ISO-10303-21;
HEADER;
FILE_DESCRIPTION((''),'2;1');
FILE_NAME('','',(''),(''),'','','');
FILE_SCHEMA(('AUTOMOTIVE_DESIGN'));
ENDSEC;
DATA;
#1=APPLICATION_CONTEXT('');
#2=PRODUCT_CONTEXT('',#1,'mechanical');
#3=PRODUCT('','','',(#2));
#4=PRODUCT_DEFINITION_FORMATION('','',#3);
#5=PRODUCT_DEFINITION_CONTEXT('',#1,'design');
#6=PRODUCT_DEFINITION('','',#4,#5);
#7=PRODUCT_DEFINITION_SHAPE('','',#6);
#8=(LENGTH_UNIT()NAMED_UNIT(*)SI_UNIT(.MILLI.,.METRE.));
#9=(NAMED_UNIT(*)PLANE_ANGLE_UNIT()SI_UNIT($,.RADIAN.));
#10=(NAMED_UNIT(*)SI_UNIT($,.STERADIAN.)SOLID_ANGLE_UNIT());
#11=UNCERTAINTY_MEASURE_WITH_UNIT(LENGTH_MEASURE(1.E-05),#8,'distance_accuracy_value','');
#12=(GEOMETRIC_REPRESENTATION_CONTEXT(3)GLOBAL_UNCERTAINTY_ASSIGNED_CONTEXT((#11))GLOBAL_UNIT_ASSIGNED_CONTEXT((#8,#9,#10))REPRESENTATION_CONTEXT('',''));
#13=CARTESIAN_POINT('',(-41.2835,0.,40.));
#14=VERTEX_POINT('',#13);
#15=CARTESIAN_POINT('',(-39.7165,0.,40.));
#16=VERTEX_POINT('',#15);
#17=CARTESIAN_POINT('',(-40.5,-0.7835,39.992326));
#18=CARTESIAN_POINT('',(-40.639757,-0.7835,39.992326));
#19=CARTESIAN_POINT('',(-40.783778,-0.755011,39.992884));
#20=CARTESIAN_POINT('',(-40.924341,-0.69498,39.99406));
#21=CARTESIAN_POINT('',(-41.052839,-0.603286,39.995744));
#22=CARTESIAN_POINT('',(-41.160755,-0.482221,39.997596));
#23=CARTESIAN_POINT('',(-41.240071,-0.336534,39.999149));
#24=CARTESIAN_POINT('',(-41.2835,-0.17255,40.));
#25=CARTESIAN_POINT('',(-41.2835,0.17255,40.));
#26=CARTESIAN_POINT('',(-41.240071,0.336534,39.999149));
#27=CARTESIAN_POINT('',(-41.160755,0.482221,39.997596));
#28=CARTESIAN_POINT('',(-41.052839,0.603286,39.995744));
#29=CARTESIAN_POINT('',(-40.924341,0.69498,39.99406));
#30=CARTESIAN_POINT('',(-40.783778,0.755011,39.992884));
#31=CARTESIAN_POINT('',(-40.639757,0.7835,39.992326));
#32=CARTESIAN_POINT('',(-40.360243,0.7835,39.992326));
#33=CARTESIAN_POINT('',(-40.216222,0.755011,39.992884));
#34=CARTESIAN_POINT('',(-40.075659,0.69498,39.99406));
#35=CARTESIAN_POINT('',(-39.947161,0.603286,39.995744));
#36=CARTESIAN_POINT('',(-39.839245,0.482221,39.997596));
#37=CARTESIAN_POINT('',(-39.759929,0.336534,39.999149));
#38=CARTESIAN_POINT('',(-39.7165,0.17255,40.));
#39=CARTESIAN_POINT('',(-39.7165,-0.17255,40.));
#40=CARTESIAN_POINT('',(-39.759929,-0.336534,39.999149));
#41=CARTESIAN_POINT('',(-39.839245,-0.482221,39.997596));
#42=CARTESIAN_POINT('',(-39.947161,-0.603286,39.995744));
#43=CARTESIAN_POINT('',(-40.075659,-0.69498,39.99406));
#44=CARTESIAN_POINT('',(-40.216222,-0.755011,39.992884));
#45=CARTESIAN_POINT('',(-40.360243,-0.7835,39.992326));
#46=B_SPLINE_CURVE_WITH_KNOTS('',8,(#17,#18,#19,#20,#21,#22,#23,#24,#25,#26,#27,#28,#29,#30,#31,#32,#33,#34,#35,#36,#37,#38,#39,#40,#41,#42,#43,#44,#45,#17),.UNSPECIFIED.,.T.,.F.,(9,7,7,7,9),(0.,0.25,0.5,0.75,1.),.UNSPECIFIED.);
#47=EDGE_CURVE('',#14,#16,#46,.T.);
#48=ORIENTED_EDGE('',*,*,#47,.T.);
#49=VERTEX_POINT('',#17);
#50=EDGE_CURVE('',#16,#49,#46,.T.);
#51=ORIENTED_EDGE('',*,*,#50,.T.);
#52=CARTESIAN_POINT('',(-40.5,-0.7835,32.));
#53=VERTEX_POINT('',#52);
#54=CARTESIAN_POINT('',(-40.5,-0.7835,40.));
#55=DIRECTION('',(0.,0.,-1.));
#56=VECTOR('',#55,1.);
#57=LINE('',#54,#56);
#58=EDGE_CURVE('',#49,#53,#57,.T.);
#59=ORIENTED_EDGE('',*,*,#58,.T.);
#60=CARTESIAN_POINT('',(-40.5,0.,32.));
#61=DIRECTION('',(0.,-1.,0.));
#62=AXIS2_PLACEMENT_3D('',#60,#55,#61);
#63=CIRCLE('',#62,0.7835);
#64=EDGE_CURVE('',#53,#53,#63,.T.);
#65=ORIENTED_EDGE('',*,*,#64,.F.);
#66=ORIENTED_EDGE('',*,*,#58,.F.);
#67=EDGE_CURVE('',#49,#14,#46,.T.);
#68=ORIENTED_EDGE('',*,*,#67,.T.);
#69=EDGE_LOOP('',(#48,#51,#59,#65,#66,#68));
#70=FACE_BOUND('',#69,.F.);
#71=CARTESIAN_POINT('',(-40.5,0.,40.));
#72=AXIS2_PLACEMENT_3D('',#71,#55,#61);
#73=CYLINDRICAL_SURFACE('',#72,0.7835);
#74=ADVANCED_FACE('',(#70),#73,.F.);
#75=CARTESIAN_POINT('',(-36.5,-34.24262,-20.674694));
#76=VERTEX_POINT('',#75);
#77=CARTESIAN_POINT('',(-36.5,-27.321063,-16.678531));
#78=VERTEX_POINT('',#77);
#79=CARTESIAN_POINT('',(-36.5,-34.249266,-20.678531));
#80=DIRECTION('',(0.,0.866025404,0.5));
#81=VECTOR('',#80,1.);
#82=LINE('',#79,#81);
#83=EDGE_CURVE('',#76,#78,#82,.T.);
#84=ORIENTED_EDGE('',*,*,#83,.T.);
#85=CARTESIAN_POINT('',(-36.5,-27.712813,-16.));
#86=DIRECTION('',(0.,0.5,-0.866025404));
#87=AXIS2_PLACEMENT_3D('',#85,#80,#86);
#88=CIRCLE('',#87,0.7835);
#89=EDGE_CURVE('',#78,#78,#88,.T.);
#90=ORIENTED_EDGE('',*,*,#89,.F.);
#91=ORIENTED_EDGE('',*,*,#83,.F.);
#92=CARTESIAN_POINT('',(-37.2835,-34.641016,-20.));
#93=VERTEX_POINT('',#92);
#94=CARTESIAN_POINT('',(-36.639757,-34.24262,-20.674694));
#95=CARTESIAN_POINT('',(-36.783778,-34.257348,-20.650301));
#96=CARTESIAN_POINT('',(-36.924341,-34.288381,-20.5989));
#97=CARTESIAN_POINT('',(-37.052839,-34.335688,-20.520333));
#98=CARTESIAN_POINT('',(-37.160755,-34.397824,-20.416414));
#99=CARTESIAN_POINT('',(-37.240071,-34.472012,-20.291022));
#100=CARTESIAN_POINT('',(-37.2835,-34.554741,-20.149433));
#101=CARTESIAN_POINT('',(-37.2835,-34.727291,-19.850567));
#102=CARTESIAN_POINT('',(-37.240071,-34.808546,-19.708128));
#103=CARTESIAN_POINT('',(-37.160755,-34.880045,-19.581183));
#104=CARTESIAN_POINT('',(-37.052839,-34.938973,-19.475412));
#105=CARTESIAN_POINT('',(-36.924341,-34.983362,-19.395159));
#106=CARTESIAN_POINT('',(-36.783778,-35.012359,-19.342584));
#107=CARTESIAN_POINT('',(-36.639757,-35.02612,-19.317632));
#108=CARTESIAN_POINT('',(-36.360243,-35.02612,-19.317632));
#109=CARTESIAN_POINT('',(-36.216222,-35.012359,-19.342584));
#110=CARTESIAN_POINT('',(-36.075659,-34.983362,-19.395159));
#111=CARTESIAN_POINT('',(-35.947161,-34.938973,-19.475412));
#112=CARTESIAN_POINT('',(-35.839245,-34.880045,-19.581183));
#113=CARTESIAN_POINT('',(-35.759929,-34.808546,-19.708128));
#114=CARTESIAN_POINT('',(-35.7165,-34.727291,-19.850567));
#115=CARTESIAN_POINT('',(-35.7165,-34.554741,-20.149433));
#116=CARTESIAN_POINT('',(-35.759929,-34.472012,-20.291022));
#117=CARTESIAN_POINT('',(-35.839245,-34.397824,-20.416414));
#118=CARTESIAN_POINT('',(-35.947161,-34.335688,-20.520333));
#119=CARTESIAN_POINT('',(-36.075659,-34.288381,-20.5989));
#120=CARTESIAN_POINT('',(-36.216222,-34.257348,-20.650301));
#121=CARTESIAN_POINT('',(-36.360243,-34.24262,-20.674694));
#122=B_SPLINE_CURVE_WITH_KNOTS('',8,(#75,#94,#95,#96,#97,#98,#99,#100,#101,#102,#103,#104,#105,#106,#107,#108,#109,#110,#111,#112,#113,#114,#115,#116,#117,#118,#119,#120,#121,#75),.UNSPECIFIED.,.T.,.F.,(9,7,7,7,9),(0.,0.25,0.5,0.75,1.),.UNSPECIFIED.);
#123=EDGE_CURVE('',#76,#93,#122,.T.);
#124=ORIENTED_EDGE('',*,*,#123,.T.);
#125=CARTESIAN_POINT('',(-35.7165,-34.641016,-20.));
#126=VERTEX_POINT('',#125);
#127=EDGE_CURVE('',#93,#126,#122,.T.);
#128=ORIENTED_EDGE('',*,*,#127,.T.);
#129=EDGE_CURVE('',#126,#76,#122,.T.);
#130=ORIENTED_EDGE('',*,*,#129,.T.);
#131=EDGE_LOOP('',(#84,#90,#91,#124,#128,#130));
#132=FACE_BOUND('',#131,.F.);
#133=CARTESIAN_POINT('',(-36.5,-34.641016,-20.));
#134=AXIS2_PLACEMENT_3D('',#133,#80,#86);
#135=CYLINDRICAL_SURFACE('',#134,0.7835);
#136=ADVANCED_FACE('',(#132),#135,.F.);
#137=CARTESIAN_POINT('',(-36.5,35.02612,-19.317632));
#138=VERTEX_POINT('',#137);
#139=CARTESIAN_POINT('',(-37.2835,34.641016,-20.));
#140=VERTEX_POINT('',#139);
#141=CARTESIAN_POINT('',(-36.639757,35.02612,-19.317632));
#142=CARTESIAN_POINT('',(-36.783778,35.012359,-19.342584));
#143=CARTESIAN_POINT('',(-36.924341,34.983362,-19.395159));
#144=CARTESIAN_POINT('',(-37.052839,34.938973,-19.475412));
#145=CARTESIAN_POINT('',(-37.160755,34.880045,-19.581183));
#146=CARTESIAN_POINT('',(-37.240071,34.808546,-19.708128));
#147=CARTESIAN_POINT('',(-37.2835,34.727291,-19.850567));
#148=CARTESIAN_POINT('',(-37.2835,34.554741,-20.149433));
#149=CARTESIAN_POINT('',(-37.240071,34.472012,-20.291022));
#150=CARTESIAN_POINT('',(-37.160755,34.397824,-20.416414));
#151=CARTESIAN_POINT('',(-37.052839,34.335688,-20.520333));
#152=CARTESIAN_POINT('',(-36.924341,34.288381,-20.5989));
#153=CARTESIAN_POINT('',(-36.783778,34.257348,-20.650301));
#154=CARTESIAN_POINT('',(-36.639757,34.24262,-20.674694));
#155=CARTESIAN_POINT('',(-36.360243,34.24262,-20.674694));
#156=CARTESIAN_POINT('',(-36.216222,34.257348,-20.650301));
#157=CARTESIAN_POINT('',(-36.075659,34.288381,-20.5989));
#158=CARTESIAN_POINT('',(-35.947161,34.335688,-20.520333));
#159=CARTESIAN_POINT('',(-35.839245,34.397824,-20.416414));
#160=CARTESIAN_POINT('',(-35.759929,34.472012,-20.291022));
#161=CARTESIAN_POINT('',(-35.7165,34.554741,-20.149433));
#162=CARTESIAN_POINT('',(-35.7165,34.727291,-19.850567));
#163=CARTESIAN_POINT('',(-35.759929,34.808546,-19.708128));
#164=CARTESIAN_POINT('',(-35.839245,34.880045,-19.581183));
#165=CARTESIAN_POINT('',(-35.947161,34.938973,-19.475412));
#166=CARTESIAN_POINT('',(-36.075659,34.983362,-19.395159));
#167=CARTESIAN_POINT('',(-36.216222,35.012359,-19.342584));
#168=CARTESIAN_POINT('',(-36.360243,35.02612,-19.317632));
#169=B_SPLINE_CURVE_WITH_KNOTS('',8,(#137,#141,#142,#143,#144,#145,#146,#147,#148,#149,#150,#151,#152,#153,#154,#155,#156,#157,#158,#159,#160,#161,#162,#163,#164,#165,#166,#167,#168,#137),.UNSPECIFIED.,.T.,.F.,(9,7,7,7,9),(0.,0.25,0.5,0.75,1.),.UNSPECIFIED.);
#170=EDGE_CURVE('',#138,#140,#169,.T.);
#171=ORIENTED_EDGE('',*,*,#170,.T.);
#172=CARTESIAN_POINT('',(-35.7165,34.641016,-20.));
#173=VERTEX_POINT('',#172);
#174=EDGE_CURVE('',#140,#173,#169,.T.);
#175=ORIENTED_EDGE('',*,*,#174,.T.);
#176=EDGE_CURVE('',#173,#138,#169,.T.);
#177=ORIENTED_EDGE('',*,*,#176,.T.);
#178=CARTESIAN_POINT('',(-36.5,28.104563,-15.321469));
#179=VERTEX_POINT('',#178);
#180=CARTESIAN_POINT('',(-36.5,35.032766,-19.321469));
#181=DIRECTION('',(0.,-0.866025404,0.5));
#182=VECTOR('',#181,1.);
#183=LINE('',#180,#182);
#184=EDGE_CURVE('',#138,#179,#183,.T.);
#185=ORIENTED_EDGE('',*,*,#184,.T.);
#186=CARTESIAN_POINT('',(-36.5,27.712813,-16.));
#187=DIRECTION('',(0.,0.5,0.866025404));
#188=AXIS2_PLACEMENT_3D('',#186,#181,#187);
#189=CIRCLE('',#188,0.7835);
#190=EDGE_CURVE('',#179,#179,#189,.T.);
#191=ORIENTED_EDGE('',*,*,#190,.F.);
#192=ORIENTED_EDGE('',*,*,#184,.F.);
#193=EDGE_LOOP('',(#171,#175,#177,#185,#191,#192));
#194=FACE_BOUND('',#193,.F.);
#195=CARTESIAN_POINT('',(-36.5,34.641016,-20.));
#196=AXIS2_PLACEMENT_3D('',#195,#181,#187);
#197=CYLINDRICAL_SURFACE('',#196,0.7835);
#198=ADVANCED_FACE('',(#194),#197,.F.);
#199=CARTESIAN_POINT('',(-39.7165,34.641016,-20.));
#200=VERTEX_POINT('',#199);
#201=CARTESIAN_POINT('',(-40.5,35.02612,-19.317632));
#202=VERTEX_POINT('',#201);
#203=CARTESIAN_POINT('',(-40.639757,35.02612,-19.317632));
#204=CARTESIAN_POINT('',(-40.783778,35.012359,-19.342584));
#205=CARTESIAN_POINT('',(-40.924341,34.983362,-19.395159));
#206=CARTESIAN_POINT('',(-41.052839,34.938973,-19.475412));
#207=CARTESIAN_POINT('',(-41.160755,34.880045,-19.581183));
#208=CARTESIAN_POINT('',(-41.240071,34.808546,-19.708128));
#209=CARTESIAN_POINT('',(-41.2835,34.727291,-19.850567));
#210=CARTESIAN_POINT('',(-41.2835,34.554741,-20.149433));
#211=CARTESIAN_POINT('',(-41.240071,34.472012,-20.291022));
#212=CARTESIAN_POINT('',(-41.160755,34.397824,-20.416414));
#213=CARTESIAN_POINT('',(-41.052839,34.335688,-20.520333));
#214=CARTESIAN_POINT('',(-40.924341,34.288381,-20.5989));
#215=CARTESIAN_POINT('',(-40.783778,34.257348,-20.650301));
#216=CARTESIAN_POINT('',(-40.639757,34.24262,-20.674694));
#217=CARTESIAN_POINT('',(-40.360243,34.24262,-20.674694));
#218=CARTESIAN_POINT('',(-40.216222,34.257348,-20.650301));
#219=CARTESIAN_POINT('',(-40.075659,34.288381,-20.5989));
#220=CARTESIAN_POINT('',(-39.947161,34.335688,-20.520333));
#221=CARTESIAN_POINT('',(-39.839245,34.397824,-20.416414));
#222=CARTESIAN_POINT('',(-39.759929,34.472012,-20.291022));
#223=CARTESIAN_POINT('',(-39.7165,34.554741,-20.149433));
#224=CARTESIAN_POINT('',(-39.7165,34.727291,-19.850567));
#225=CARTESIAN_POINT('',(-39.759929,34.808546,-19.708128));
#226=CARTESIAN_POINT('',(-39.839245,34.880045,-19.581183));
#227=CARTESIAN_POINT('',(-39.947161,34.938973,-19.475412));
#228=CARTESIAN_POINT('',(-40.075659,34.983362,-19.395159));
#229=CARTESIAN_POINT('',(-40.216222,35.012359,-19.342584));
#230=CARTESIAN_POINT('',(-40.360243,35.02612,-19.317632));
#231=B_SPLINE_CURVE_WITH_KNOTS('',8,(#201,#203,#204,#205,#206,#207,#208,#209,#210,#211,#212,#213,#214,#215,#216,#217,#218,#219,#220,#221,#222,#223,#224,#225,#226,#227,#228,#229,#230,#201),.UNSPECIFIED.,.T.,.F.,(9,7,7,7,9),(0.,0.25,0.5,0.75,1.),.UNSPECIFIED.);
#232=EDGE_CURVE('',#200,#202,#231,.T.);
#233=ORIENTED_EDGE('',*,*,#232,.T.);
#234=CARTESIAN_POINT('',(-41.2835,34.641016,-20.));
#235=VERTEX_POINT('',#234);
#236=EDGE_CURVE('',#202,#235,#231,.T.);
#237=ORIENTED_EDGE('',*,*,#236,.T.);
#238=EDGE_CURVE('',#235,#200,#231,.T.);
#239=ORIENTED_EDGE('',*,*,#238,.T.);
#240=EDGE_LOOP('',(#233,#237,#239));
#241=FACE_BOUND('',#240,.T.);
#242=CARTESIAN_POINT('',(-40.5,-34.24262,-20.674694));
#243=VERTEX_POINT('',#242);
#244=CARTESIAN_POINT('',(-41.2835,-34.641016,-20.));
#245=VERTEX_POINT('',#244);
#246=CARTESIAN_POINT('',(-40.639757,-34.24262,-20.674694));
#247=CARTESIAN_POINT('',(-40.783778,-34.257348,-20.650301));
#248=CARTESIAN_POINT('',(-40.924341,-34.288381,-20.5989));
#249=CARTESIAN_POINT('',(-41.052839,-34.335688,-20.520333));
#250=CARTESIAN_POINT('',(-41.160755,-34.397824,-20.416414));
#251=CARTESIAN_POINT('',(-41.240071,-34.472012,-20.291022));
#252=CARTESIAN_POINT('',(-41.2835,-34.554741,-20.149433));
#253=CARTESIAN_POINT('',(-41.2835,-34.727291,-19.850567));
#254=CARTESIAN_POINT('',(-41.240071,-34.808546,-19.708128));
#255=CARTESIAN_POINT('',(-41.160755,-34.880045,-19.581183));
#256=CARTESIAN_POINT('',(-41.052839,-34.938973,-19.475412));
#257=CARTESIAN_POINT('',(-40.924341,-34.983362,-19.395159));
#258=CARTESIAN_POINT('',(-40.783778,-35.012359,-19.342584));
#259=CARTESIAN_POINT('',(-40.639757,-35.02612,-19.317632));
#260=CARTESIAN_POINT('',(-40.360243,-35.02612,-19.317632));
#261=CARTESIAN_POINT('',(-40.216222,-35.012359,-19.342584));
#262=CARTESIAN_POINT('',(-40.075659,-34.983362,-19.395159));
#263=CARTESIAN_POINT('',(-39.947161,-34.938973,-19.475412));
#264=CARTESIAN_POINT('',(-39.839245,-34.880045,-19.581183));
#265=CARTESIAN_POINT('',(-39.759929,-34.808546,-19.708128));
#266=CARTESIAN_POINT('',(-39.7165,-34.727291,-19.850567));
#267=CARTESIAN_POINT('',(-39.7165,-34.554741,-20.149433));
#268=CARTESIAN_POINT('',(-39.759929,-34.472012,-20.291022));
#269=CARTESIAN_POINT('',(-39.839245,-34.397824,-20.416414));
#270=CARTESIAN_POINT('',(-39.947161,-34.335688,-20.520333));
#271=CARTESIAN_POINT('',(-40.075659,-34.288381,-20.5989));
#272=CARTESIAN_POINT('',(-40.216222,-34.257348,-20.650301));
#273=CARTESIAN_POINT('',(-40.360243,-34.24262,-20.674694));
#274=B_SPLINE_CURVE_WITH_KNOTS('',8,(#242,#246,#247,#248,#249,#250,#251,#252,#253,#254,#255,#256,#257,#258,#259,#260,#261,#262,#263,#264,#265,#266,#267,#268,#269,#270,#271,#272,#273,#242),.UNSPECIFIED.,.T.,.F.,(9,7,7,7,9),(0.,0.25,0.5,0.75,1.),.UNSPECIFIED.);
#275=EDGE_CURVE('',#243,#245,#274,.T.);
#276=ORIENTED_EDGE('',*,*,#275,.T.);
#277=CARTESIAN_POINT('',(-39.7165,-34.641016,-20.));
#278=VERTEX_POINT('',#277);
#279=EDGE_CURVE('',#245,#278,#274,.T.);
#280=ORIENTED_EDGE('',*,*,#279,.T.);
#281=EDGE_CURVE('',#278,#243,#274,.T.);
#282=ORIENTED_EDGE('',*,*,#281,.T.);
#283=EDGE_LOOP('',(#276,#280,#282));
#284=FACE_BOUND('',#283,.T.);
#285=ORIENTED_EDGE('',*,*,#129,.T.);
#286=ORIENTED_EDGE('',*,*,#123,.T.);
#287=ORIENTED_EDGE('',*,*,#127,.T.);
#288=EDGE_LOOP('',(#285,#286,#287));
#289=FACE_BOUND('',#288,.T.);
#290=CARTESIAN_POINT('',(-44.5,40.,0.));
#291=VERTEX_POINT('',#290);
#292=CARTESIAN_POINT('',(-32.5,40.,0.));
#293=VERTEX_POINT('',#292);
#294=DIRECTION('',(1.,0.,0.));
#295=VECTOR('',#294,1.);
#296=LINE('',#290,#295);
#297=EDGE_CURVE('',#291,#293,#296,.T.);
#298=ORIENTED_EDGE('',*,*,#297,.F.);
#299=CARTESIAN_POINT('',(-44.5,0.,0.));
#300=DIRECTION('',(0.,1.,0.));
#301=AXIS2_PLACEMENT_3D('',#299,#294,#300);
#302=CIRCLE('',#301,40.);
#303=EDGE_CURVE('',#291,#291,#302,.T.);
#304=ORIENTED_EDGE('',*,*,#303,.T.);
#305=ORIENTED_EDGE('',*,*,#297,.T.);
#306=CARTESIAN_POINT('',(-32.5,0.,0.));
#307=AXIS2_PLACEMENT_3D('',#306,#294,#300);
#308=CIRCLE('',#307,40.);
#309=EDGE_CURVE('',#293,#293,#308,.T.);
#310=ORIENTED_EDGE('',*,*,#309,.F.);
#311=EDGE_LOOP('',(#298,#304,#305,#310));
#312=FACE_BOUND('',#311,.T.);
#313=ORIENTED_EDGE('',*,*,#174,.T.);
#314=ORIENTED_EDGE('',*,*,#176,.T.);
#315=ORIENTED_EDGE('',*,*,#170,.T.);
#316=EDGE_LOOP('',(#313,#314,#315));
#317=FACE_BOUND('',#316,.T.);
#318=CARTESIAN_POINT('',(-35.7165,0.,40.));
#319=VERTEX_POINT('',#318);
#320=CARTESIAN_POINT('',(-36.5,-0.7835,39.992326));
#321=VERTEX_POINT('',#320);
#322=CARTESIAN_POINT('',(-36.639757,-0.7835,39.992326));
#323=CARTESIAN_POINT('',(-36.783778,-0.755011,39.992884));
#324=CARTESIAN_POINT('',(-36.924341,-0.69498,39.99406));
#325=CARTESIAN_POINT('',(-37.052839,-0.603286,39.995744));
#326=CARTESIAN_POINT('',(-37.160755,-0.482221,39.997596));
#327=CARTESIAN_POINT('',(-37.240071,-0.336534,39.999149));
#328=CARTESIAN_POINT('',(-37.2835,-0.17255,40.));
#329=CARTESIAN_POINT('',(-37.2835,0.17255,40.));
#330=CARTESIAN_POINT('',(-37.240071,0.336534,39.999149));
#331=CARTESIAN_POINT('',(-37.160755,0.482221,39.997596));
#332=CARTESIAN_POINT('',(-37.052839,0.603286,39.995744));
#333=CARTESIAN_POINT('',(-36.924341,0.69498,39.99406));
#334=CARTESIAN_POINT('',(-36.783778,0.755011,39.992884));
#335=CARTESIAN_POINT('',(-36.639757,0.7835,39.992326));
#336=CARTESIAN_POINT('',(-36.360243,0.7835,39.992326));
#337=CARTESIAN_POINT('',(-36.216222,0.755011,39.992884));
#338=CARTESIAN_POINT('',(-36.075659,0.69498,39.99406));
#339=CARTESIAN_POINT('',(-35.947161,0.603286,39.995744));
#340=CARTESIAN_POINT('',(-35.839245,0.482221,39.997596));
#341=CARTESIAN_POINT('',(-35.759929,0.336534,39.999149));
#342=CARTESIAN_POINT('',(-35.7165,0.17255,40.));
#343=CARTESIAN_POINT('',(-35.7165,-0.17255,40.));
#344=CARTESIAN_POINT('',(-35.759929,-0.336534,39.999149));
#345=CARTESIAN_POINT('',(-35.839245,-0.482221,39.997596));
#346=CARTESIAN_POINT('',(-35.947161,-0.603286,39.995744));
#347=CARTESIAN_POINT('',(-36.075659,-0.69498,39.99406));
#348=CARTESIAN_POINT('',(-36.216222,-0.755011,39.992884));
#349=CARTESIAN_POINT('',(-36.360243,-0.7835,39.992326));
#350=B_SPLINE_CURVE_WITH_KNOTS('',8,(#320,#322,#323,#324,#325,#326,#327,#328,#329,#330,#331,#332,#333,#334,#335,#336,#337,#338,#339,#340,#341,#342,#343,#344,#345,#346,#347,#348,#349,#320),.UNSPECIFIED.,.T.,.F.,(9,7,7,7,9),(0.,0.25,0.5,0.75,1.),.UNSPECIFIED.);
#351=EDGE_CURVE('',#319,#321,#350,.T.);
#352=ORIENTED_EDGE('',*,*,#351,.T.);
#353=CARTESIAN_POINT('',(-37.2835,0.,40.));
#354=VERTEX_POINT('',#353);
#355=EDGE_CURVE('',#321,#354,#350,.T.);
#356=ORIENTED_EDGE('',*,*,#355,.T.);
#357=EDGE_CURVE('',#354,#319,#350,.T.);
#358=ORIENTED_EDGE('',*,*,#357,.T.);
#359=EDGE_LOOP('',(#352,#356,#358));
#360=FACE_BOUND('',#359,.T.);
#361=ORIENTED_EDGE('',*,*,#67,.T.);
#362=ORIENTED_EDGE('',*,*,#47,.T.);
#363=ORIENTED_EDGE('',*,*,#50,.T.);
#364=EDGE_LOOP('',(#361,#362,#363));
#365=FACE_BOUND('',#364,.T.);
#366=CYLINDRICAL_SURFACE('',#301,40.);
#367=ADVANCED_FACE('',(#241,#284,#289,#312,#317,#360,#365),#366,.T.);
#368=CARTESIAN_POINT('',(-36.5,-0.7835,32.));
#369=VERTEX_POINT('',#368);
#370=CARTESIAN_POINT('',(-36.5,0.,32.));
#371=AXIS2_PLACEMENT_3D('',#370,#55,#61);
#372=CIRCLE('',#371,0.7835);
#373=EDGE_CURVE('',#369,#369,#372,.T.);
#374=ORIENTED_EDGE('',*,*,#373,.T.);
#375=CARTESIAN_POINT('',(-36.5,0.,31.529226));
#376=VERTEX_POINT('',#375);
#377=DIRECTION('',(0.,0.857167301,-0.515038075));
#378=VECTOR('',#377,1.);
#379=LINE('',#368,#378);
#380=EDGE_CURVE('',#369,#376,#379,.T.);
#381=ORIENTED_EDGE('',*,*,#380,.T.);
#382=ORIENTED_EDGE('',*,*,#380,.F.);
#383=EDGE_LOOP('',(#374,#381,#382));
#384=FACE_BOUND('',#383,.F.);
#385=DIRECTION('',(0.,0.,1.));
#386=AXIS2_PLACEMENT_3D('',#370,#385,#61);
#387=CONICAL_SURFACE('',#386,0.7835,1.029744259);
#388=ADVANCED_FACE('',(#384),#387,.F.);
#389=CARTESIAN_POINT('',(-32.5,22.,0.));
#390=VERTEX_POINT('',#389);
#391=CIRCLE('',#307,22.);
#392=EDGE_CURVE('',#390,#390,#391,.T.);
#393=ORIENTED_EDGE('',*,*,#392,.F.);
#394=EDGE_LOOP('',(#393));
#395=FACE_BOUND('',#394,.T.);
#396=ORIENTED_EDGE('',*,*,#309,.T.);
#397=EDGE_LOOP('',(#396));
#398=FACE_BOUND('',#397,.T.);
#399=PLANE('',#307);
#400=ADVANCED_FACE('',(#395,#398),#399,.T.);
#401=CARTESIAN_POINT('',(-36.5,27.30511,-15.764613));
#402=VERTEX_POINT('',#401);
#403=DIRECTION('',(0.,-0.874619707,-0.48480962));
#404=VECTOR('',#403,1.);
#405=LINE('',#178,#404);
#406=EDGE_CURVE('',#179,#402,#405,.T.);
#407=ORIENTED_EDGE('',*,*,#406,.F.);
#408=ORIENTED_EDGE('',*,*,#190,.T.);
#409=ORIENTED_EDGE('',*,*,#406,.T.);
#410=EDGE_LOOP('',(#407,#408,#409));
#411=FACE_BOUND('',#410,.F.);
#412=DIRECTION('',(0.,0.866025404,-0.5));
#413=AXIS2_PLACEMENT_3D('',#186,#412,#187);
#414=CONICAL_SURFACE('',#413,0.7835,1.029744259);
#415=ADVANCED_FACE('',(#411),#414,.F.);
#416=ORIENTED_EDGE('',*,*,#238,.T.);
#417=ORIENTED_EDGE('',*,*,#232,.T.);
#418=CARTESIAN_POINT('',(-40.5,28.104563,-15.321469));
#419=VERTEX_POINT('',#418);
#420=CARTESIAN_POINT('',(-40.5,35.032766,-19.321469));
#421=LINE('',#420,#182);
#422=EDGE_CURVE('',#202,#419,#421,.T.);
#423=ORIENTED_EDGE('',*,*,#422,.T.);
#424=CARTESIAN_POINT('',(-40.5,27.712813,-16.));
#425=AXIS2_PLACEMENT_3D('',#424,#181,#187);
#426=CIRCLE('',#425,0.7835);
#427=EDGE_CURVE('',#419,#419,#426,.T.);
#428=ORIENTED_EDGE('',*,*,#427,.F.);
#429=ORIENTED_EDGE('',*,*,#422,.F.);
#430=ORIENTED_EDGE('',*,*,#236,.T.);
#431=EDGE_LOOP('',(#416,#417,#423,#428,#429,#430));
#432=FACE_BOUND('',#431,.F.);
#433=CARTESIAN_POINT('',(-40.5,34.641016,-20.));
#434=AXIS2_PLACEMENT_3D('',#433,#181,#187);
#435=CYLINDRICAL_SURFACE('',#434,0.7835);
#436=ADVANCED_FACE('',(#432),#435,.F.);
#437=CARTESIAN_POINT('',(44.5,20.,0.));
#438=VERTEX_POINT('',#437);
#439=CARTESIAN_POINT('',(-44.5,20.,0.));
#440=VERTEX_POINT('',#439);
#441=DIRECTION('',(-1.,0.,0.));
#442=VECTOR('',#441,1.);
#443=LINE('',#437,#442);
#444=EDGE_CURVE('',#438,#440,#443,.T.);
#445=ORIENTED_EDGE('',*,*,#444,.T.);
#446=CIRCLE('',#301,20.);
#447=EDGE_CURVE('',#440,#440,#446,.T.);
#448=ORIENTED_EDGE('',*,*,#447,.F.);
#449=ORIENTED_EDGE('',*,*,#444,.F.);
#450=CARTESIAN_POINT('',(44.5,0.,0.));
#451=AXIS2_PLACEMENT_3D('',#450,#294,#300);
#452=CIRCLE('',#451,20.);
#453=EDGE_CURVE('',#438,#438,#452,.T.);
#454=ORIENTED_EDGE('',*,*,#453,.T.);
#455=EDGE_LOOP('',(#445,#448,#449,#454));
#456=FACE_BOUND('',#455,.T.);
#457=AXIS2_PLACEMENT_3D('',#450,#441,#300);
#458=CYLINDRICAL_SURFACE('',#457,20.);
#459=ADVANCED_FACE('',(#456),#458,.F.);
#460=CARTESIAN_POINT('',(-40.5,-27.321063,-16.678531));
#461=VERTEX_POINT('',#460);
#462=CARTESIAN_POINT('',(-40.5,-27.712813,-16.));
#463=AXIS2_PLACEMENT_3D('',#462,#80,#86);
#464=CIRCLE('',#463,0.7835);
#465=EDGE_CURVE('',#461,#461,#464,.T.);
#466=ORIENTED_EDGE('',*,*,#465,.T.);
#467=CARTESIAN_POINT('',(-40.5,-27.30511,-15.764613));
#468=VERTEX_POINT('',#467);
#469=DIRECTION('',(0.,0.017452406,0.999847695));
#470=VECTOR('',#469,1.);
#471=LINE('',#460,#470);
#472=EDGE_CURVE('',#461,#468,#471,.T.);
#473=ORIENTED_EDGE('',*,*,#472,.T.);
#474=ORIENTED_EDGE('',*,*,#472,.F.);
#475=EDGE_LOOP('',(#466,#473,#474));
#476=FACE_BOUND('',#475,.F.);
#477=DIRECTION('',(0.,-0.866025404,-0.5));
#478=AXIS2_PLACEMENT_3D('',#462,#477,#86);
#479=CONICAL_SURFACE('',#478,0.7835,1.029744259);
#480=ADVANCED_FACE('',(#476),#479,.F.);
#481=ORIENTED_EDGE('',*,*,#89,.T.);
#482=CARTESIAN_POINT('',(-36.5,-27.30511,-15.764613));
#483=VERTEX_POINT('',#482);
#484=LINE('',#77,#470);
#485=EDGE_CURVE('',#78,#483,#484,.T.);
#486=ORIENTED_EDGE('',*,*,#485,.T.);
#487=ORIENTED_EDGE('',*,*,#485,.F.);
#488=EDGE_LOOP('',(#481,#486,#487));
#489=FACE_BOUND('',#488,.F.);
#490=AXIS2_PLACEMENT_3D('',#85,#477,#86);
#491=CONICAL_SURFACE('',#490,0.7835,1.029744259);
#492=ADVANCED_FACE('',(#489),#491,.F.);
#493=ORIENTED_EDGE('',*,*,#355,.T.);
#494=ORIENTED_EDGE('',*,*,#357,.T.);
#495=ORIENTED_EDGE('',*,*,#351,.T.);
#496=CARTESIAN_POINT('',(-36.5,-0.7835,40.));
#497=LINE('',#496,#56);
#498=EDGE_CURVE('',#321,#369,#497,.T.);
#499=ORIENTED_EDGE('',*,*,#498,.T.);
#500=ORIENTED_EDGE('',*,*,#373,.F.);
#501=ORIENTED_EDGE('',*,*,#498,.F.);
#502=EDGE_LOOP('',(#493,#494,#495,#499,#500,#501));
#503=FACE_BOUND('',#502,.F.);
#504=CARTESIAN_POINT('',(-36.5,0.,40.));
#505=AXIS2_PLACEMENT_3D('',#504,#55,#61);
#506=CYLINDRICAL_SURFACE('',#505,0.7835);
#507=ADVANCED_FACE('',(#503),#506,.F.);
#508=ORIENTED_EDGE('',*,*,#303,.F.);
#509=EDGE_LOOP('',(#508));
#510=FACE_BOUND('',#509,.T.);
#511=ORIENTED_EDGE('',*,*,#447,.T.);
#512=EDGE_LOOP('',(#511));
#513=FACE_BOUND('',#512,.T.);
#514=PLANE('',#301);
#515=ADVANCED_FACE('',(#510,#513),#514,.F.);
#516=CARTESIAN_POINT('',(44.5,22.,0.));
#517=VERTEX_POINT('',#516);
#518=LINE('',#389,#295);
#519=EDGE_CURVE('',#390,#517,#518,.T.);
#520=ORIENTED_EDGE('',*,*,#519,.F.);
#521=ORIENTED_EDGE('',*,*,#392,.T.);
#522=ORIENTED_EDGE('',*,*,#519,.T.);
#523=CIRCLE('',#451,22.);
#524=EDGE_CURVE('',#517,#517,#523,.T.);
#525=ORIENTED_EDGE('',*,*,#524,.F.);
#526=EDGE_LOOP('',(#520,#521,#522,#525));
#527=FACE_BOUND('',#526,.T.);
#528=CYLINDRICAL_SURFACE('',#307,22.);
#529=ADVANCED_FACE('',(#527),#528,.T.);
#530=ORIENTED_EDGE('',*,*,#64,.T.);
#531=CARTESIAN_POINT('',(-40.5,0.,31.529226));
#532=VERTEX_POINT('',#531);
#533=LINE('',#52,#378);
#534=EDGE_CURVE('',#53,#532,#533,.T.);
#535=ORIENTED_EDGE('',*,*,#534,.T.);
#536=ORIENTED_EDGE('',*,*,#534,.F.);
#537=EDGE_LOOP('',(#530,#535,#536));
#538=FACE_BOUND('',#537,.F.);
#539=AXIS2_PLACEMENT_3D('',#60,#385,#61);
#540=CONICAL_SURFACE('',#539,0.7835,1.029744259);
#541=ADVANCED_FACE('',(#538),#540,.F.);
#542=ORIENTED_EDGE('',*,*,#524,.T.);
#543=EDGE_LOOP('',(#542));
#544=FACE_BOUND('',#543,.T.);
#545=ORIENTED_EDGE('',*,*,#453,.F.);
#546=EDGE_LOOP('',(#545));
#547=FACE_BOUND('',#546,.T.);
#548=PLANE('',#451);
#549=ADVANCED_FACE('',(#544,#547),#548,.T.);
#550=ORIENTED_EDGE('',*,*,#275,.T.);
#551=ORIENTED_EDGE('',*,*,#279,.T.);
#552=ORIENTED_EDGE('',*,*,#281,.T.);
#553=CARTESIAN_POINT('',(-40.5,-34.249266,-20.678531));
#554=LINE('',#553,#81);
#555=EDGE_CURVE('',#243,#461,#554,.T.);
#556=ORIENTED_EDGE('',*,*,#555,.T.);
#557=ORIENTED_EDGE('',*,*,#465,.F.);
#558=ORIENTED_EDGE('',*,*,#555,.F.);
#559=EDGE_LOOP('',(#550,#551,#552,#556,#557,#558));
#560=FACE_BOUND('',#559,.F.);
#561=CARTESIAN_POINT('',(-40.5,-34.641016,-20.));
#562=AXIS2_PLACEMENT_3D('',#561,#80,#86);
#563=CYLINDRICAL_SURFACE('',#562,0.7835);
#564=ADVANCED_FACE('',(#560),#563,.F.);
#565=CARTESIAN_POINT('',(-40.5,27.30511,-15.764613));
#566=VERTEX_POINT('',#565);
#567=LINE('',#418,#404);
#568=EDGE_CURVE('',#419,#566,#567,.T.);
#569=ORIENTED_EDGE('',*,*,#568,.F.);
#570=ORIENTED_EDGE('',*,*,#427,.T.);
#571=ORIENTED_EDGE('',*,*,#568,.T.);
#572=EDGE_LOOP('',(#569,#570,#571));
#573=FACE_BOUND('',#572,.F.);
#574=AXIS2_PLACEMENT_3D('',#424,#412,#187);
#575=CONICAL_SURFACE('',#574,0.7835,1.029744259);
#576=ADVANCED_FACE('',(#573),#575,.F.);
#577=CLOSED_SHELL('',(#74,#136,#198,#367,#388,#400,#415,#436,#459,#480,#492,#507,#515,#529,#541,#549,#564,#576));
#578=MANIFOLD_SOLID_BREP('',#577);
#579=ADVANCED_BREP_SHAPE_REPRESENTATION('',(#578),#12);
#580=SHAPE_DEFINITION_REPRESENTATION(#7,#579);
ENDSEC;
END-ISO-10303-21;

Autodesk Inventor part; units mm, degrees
ref_plane "YZ Plane" through (0, 0, 0) normal (1, 0, 0) x (0, 1, 0)
ref_plane "XZ Plane" through (0, 0, 0) normal (0, 1, 0) x (-1, 0, 0)
sketch "Sketch1" plane through (0, 0, 0) normal (0, 0, 1) x (1, 0, 0)
  line L0 (-44.5, 40) -> (-32.5, 40)
  line L1 (-32.5, 40) -> (-32.5, 22)
  line L2 (-32.5, 22) -> (44.5, 22)
  line L3 (44.5, 22) -> (44.5, 20)
  line L4 (44.5, 20) -> (-44.5, 20)
  line L5 (-44.5, 20) -> (-44.5, 40)
  line L6 (-62.3, 0) -> (62.3, 0) projected
  point P0 (0, 0)
  point P1 (0, 20)
  dimension "d0" = 12
  dimension "d1" = 89
  dimension "d2" = 40
  dimension "d3" = 44
  dimension "d4" = 80
revolve "Revolution1" add sketch "Sketch1" angle 360 about axis through (-10, 0, 0) along (1, 0, 0)
ref_plane "Work Plane1" through (-38.5, 0, 40) normal (0, 0, 1) x (1, 0, 0)
sketch "Sketch2" plane through (-38.5, 0, 40) normal (0, 0, 1) x (1, 0, 0)
  line L0 (-2, 0) -> (2, 0) construction
  line L1 (-6, -40) -> (-6, 40) projected
  line L2 (6, -40) -> (6, 40) projected
  line L3 (-6, 0) -> (6, 0) construction
  point P0 (38.5, 0)
  point P1 (0, 0)
  dimension "d6" = 4
hole "Hole1" at (-40.5, 0, 40) at (-36.5, 0, 40) direction (0, 0, -1) diameter 1.567 depth 8 tip angle 118 thread size "M2x0.4" class "6H" standard "ISO Metric profile"
pattern_circular "Circular Pattern1" count 3 over 360 about axis through (0, 0, 0) along (1, 0, 0) of "Hole1"
properties part number "ALPHA_001157_EndNosePiece"
